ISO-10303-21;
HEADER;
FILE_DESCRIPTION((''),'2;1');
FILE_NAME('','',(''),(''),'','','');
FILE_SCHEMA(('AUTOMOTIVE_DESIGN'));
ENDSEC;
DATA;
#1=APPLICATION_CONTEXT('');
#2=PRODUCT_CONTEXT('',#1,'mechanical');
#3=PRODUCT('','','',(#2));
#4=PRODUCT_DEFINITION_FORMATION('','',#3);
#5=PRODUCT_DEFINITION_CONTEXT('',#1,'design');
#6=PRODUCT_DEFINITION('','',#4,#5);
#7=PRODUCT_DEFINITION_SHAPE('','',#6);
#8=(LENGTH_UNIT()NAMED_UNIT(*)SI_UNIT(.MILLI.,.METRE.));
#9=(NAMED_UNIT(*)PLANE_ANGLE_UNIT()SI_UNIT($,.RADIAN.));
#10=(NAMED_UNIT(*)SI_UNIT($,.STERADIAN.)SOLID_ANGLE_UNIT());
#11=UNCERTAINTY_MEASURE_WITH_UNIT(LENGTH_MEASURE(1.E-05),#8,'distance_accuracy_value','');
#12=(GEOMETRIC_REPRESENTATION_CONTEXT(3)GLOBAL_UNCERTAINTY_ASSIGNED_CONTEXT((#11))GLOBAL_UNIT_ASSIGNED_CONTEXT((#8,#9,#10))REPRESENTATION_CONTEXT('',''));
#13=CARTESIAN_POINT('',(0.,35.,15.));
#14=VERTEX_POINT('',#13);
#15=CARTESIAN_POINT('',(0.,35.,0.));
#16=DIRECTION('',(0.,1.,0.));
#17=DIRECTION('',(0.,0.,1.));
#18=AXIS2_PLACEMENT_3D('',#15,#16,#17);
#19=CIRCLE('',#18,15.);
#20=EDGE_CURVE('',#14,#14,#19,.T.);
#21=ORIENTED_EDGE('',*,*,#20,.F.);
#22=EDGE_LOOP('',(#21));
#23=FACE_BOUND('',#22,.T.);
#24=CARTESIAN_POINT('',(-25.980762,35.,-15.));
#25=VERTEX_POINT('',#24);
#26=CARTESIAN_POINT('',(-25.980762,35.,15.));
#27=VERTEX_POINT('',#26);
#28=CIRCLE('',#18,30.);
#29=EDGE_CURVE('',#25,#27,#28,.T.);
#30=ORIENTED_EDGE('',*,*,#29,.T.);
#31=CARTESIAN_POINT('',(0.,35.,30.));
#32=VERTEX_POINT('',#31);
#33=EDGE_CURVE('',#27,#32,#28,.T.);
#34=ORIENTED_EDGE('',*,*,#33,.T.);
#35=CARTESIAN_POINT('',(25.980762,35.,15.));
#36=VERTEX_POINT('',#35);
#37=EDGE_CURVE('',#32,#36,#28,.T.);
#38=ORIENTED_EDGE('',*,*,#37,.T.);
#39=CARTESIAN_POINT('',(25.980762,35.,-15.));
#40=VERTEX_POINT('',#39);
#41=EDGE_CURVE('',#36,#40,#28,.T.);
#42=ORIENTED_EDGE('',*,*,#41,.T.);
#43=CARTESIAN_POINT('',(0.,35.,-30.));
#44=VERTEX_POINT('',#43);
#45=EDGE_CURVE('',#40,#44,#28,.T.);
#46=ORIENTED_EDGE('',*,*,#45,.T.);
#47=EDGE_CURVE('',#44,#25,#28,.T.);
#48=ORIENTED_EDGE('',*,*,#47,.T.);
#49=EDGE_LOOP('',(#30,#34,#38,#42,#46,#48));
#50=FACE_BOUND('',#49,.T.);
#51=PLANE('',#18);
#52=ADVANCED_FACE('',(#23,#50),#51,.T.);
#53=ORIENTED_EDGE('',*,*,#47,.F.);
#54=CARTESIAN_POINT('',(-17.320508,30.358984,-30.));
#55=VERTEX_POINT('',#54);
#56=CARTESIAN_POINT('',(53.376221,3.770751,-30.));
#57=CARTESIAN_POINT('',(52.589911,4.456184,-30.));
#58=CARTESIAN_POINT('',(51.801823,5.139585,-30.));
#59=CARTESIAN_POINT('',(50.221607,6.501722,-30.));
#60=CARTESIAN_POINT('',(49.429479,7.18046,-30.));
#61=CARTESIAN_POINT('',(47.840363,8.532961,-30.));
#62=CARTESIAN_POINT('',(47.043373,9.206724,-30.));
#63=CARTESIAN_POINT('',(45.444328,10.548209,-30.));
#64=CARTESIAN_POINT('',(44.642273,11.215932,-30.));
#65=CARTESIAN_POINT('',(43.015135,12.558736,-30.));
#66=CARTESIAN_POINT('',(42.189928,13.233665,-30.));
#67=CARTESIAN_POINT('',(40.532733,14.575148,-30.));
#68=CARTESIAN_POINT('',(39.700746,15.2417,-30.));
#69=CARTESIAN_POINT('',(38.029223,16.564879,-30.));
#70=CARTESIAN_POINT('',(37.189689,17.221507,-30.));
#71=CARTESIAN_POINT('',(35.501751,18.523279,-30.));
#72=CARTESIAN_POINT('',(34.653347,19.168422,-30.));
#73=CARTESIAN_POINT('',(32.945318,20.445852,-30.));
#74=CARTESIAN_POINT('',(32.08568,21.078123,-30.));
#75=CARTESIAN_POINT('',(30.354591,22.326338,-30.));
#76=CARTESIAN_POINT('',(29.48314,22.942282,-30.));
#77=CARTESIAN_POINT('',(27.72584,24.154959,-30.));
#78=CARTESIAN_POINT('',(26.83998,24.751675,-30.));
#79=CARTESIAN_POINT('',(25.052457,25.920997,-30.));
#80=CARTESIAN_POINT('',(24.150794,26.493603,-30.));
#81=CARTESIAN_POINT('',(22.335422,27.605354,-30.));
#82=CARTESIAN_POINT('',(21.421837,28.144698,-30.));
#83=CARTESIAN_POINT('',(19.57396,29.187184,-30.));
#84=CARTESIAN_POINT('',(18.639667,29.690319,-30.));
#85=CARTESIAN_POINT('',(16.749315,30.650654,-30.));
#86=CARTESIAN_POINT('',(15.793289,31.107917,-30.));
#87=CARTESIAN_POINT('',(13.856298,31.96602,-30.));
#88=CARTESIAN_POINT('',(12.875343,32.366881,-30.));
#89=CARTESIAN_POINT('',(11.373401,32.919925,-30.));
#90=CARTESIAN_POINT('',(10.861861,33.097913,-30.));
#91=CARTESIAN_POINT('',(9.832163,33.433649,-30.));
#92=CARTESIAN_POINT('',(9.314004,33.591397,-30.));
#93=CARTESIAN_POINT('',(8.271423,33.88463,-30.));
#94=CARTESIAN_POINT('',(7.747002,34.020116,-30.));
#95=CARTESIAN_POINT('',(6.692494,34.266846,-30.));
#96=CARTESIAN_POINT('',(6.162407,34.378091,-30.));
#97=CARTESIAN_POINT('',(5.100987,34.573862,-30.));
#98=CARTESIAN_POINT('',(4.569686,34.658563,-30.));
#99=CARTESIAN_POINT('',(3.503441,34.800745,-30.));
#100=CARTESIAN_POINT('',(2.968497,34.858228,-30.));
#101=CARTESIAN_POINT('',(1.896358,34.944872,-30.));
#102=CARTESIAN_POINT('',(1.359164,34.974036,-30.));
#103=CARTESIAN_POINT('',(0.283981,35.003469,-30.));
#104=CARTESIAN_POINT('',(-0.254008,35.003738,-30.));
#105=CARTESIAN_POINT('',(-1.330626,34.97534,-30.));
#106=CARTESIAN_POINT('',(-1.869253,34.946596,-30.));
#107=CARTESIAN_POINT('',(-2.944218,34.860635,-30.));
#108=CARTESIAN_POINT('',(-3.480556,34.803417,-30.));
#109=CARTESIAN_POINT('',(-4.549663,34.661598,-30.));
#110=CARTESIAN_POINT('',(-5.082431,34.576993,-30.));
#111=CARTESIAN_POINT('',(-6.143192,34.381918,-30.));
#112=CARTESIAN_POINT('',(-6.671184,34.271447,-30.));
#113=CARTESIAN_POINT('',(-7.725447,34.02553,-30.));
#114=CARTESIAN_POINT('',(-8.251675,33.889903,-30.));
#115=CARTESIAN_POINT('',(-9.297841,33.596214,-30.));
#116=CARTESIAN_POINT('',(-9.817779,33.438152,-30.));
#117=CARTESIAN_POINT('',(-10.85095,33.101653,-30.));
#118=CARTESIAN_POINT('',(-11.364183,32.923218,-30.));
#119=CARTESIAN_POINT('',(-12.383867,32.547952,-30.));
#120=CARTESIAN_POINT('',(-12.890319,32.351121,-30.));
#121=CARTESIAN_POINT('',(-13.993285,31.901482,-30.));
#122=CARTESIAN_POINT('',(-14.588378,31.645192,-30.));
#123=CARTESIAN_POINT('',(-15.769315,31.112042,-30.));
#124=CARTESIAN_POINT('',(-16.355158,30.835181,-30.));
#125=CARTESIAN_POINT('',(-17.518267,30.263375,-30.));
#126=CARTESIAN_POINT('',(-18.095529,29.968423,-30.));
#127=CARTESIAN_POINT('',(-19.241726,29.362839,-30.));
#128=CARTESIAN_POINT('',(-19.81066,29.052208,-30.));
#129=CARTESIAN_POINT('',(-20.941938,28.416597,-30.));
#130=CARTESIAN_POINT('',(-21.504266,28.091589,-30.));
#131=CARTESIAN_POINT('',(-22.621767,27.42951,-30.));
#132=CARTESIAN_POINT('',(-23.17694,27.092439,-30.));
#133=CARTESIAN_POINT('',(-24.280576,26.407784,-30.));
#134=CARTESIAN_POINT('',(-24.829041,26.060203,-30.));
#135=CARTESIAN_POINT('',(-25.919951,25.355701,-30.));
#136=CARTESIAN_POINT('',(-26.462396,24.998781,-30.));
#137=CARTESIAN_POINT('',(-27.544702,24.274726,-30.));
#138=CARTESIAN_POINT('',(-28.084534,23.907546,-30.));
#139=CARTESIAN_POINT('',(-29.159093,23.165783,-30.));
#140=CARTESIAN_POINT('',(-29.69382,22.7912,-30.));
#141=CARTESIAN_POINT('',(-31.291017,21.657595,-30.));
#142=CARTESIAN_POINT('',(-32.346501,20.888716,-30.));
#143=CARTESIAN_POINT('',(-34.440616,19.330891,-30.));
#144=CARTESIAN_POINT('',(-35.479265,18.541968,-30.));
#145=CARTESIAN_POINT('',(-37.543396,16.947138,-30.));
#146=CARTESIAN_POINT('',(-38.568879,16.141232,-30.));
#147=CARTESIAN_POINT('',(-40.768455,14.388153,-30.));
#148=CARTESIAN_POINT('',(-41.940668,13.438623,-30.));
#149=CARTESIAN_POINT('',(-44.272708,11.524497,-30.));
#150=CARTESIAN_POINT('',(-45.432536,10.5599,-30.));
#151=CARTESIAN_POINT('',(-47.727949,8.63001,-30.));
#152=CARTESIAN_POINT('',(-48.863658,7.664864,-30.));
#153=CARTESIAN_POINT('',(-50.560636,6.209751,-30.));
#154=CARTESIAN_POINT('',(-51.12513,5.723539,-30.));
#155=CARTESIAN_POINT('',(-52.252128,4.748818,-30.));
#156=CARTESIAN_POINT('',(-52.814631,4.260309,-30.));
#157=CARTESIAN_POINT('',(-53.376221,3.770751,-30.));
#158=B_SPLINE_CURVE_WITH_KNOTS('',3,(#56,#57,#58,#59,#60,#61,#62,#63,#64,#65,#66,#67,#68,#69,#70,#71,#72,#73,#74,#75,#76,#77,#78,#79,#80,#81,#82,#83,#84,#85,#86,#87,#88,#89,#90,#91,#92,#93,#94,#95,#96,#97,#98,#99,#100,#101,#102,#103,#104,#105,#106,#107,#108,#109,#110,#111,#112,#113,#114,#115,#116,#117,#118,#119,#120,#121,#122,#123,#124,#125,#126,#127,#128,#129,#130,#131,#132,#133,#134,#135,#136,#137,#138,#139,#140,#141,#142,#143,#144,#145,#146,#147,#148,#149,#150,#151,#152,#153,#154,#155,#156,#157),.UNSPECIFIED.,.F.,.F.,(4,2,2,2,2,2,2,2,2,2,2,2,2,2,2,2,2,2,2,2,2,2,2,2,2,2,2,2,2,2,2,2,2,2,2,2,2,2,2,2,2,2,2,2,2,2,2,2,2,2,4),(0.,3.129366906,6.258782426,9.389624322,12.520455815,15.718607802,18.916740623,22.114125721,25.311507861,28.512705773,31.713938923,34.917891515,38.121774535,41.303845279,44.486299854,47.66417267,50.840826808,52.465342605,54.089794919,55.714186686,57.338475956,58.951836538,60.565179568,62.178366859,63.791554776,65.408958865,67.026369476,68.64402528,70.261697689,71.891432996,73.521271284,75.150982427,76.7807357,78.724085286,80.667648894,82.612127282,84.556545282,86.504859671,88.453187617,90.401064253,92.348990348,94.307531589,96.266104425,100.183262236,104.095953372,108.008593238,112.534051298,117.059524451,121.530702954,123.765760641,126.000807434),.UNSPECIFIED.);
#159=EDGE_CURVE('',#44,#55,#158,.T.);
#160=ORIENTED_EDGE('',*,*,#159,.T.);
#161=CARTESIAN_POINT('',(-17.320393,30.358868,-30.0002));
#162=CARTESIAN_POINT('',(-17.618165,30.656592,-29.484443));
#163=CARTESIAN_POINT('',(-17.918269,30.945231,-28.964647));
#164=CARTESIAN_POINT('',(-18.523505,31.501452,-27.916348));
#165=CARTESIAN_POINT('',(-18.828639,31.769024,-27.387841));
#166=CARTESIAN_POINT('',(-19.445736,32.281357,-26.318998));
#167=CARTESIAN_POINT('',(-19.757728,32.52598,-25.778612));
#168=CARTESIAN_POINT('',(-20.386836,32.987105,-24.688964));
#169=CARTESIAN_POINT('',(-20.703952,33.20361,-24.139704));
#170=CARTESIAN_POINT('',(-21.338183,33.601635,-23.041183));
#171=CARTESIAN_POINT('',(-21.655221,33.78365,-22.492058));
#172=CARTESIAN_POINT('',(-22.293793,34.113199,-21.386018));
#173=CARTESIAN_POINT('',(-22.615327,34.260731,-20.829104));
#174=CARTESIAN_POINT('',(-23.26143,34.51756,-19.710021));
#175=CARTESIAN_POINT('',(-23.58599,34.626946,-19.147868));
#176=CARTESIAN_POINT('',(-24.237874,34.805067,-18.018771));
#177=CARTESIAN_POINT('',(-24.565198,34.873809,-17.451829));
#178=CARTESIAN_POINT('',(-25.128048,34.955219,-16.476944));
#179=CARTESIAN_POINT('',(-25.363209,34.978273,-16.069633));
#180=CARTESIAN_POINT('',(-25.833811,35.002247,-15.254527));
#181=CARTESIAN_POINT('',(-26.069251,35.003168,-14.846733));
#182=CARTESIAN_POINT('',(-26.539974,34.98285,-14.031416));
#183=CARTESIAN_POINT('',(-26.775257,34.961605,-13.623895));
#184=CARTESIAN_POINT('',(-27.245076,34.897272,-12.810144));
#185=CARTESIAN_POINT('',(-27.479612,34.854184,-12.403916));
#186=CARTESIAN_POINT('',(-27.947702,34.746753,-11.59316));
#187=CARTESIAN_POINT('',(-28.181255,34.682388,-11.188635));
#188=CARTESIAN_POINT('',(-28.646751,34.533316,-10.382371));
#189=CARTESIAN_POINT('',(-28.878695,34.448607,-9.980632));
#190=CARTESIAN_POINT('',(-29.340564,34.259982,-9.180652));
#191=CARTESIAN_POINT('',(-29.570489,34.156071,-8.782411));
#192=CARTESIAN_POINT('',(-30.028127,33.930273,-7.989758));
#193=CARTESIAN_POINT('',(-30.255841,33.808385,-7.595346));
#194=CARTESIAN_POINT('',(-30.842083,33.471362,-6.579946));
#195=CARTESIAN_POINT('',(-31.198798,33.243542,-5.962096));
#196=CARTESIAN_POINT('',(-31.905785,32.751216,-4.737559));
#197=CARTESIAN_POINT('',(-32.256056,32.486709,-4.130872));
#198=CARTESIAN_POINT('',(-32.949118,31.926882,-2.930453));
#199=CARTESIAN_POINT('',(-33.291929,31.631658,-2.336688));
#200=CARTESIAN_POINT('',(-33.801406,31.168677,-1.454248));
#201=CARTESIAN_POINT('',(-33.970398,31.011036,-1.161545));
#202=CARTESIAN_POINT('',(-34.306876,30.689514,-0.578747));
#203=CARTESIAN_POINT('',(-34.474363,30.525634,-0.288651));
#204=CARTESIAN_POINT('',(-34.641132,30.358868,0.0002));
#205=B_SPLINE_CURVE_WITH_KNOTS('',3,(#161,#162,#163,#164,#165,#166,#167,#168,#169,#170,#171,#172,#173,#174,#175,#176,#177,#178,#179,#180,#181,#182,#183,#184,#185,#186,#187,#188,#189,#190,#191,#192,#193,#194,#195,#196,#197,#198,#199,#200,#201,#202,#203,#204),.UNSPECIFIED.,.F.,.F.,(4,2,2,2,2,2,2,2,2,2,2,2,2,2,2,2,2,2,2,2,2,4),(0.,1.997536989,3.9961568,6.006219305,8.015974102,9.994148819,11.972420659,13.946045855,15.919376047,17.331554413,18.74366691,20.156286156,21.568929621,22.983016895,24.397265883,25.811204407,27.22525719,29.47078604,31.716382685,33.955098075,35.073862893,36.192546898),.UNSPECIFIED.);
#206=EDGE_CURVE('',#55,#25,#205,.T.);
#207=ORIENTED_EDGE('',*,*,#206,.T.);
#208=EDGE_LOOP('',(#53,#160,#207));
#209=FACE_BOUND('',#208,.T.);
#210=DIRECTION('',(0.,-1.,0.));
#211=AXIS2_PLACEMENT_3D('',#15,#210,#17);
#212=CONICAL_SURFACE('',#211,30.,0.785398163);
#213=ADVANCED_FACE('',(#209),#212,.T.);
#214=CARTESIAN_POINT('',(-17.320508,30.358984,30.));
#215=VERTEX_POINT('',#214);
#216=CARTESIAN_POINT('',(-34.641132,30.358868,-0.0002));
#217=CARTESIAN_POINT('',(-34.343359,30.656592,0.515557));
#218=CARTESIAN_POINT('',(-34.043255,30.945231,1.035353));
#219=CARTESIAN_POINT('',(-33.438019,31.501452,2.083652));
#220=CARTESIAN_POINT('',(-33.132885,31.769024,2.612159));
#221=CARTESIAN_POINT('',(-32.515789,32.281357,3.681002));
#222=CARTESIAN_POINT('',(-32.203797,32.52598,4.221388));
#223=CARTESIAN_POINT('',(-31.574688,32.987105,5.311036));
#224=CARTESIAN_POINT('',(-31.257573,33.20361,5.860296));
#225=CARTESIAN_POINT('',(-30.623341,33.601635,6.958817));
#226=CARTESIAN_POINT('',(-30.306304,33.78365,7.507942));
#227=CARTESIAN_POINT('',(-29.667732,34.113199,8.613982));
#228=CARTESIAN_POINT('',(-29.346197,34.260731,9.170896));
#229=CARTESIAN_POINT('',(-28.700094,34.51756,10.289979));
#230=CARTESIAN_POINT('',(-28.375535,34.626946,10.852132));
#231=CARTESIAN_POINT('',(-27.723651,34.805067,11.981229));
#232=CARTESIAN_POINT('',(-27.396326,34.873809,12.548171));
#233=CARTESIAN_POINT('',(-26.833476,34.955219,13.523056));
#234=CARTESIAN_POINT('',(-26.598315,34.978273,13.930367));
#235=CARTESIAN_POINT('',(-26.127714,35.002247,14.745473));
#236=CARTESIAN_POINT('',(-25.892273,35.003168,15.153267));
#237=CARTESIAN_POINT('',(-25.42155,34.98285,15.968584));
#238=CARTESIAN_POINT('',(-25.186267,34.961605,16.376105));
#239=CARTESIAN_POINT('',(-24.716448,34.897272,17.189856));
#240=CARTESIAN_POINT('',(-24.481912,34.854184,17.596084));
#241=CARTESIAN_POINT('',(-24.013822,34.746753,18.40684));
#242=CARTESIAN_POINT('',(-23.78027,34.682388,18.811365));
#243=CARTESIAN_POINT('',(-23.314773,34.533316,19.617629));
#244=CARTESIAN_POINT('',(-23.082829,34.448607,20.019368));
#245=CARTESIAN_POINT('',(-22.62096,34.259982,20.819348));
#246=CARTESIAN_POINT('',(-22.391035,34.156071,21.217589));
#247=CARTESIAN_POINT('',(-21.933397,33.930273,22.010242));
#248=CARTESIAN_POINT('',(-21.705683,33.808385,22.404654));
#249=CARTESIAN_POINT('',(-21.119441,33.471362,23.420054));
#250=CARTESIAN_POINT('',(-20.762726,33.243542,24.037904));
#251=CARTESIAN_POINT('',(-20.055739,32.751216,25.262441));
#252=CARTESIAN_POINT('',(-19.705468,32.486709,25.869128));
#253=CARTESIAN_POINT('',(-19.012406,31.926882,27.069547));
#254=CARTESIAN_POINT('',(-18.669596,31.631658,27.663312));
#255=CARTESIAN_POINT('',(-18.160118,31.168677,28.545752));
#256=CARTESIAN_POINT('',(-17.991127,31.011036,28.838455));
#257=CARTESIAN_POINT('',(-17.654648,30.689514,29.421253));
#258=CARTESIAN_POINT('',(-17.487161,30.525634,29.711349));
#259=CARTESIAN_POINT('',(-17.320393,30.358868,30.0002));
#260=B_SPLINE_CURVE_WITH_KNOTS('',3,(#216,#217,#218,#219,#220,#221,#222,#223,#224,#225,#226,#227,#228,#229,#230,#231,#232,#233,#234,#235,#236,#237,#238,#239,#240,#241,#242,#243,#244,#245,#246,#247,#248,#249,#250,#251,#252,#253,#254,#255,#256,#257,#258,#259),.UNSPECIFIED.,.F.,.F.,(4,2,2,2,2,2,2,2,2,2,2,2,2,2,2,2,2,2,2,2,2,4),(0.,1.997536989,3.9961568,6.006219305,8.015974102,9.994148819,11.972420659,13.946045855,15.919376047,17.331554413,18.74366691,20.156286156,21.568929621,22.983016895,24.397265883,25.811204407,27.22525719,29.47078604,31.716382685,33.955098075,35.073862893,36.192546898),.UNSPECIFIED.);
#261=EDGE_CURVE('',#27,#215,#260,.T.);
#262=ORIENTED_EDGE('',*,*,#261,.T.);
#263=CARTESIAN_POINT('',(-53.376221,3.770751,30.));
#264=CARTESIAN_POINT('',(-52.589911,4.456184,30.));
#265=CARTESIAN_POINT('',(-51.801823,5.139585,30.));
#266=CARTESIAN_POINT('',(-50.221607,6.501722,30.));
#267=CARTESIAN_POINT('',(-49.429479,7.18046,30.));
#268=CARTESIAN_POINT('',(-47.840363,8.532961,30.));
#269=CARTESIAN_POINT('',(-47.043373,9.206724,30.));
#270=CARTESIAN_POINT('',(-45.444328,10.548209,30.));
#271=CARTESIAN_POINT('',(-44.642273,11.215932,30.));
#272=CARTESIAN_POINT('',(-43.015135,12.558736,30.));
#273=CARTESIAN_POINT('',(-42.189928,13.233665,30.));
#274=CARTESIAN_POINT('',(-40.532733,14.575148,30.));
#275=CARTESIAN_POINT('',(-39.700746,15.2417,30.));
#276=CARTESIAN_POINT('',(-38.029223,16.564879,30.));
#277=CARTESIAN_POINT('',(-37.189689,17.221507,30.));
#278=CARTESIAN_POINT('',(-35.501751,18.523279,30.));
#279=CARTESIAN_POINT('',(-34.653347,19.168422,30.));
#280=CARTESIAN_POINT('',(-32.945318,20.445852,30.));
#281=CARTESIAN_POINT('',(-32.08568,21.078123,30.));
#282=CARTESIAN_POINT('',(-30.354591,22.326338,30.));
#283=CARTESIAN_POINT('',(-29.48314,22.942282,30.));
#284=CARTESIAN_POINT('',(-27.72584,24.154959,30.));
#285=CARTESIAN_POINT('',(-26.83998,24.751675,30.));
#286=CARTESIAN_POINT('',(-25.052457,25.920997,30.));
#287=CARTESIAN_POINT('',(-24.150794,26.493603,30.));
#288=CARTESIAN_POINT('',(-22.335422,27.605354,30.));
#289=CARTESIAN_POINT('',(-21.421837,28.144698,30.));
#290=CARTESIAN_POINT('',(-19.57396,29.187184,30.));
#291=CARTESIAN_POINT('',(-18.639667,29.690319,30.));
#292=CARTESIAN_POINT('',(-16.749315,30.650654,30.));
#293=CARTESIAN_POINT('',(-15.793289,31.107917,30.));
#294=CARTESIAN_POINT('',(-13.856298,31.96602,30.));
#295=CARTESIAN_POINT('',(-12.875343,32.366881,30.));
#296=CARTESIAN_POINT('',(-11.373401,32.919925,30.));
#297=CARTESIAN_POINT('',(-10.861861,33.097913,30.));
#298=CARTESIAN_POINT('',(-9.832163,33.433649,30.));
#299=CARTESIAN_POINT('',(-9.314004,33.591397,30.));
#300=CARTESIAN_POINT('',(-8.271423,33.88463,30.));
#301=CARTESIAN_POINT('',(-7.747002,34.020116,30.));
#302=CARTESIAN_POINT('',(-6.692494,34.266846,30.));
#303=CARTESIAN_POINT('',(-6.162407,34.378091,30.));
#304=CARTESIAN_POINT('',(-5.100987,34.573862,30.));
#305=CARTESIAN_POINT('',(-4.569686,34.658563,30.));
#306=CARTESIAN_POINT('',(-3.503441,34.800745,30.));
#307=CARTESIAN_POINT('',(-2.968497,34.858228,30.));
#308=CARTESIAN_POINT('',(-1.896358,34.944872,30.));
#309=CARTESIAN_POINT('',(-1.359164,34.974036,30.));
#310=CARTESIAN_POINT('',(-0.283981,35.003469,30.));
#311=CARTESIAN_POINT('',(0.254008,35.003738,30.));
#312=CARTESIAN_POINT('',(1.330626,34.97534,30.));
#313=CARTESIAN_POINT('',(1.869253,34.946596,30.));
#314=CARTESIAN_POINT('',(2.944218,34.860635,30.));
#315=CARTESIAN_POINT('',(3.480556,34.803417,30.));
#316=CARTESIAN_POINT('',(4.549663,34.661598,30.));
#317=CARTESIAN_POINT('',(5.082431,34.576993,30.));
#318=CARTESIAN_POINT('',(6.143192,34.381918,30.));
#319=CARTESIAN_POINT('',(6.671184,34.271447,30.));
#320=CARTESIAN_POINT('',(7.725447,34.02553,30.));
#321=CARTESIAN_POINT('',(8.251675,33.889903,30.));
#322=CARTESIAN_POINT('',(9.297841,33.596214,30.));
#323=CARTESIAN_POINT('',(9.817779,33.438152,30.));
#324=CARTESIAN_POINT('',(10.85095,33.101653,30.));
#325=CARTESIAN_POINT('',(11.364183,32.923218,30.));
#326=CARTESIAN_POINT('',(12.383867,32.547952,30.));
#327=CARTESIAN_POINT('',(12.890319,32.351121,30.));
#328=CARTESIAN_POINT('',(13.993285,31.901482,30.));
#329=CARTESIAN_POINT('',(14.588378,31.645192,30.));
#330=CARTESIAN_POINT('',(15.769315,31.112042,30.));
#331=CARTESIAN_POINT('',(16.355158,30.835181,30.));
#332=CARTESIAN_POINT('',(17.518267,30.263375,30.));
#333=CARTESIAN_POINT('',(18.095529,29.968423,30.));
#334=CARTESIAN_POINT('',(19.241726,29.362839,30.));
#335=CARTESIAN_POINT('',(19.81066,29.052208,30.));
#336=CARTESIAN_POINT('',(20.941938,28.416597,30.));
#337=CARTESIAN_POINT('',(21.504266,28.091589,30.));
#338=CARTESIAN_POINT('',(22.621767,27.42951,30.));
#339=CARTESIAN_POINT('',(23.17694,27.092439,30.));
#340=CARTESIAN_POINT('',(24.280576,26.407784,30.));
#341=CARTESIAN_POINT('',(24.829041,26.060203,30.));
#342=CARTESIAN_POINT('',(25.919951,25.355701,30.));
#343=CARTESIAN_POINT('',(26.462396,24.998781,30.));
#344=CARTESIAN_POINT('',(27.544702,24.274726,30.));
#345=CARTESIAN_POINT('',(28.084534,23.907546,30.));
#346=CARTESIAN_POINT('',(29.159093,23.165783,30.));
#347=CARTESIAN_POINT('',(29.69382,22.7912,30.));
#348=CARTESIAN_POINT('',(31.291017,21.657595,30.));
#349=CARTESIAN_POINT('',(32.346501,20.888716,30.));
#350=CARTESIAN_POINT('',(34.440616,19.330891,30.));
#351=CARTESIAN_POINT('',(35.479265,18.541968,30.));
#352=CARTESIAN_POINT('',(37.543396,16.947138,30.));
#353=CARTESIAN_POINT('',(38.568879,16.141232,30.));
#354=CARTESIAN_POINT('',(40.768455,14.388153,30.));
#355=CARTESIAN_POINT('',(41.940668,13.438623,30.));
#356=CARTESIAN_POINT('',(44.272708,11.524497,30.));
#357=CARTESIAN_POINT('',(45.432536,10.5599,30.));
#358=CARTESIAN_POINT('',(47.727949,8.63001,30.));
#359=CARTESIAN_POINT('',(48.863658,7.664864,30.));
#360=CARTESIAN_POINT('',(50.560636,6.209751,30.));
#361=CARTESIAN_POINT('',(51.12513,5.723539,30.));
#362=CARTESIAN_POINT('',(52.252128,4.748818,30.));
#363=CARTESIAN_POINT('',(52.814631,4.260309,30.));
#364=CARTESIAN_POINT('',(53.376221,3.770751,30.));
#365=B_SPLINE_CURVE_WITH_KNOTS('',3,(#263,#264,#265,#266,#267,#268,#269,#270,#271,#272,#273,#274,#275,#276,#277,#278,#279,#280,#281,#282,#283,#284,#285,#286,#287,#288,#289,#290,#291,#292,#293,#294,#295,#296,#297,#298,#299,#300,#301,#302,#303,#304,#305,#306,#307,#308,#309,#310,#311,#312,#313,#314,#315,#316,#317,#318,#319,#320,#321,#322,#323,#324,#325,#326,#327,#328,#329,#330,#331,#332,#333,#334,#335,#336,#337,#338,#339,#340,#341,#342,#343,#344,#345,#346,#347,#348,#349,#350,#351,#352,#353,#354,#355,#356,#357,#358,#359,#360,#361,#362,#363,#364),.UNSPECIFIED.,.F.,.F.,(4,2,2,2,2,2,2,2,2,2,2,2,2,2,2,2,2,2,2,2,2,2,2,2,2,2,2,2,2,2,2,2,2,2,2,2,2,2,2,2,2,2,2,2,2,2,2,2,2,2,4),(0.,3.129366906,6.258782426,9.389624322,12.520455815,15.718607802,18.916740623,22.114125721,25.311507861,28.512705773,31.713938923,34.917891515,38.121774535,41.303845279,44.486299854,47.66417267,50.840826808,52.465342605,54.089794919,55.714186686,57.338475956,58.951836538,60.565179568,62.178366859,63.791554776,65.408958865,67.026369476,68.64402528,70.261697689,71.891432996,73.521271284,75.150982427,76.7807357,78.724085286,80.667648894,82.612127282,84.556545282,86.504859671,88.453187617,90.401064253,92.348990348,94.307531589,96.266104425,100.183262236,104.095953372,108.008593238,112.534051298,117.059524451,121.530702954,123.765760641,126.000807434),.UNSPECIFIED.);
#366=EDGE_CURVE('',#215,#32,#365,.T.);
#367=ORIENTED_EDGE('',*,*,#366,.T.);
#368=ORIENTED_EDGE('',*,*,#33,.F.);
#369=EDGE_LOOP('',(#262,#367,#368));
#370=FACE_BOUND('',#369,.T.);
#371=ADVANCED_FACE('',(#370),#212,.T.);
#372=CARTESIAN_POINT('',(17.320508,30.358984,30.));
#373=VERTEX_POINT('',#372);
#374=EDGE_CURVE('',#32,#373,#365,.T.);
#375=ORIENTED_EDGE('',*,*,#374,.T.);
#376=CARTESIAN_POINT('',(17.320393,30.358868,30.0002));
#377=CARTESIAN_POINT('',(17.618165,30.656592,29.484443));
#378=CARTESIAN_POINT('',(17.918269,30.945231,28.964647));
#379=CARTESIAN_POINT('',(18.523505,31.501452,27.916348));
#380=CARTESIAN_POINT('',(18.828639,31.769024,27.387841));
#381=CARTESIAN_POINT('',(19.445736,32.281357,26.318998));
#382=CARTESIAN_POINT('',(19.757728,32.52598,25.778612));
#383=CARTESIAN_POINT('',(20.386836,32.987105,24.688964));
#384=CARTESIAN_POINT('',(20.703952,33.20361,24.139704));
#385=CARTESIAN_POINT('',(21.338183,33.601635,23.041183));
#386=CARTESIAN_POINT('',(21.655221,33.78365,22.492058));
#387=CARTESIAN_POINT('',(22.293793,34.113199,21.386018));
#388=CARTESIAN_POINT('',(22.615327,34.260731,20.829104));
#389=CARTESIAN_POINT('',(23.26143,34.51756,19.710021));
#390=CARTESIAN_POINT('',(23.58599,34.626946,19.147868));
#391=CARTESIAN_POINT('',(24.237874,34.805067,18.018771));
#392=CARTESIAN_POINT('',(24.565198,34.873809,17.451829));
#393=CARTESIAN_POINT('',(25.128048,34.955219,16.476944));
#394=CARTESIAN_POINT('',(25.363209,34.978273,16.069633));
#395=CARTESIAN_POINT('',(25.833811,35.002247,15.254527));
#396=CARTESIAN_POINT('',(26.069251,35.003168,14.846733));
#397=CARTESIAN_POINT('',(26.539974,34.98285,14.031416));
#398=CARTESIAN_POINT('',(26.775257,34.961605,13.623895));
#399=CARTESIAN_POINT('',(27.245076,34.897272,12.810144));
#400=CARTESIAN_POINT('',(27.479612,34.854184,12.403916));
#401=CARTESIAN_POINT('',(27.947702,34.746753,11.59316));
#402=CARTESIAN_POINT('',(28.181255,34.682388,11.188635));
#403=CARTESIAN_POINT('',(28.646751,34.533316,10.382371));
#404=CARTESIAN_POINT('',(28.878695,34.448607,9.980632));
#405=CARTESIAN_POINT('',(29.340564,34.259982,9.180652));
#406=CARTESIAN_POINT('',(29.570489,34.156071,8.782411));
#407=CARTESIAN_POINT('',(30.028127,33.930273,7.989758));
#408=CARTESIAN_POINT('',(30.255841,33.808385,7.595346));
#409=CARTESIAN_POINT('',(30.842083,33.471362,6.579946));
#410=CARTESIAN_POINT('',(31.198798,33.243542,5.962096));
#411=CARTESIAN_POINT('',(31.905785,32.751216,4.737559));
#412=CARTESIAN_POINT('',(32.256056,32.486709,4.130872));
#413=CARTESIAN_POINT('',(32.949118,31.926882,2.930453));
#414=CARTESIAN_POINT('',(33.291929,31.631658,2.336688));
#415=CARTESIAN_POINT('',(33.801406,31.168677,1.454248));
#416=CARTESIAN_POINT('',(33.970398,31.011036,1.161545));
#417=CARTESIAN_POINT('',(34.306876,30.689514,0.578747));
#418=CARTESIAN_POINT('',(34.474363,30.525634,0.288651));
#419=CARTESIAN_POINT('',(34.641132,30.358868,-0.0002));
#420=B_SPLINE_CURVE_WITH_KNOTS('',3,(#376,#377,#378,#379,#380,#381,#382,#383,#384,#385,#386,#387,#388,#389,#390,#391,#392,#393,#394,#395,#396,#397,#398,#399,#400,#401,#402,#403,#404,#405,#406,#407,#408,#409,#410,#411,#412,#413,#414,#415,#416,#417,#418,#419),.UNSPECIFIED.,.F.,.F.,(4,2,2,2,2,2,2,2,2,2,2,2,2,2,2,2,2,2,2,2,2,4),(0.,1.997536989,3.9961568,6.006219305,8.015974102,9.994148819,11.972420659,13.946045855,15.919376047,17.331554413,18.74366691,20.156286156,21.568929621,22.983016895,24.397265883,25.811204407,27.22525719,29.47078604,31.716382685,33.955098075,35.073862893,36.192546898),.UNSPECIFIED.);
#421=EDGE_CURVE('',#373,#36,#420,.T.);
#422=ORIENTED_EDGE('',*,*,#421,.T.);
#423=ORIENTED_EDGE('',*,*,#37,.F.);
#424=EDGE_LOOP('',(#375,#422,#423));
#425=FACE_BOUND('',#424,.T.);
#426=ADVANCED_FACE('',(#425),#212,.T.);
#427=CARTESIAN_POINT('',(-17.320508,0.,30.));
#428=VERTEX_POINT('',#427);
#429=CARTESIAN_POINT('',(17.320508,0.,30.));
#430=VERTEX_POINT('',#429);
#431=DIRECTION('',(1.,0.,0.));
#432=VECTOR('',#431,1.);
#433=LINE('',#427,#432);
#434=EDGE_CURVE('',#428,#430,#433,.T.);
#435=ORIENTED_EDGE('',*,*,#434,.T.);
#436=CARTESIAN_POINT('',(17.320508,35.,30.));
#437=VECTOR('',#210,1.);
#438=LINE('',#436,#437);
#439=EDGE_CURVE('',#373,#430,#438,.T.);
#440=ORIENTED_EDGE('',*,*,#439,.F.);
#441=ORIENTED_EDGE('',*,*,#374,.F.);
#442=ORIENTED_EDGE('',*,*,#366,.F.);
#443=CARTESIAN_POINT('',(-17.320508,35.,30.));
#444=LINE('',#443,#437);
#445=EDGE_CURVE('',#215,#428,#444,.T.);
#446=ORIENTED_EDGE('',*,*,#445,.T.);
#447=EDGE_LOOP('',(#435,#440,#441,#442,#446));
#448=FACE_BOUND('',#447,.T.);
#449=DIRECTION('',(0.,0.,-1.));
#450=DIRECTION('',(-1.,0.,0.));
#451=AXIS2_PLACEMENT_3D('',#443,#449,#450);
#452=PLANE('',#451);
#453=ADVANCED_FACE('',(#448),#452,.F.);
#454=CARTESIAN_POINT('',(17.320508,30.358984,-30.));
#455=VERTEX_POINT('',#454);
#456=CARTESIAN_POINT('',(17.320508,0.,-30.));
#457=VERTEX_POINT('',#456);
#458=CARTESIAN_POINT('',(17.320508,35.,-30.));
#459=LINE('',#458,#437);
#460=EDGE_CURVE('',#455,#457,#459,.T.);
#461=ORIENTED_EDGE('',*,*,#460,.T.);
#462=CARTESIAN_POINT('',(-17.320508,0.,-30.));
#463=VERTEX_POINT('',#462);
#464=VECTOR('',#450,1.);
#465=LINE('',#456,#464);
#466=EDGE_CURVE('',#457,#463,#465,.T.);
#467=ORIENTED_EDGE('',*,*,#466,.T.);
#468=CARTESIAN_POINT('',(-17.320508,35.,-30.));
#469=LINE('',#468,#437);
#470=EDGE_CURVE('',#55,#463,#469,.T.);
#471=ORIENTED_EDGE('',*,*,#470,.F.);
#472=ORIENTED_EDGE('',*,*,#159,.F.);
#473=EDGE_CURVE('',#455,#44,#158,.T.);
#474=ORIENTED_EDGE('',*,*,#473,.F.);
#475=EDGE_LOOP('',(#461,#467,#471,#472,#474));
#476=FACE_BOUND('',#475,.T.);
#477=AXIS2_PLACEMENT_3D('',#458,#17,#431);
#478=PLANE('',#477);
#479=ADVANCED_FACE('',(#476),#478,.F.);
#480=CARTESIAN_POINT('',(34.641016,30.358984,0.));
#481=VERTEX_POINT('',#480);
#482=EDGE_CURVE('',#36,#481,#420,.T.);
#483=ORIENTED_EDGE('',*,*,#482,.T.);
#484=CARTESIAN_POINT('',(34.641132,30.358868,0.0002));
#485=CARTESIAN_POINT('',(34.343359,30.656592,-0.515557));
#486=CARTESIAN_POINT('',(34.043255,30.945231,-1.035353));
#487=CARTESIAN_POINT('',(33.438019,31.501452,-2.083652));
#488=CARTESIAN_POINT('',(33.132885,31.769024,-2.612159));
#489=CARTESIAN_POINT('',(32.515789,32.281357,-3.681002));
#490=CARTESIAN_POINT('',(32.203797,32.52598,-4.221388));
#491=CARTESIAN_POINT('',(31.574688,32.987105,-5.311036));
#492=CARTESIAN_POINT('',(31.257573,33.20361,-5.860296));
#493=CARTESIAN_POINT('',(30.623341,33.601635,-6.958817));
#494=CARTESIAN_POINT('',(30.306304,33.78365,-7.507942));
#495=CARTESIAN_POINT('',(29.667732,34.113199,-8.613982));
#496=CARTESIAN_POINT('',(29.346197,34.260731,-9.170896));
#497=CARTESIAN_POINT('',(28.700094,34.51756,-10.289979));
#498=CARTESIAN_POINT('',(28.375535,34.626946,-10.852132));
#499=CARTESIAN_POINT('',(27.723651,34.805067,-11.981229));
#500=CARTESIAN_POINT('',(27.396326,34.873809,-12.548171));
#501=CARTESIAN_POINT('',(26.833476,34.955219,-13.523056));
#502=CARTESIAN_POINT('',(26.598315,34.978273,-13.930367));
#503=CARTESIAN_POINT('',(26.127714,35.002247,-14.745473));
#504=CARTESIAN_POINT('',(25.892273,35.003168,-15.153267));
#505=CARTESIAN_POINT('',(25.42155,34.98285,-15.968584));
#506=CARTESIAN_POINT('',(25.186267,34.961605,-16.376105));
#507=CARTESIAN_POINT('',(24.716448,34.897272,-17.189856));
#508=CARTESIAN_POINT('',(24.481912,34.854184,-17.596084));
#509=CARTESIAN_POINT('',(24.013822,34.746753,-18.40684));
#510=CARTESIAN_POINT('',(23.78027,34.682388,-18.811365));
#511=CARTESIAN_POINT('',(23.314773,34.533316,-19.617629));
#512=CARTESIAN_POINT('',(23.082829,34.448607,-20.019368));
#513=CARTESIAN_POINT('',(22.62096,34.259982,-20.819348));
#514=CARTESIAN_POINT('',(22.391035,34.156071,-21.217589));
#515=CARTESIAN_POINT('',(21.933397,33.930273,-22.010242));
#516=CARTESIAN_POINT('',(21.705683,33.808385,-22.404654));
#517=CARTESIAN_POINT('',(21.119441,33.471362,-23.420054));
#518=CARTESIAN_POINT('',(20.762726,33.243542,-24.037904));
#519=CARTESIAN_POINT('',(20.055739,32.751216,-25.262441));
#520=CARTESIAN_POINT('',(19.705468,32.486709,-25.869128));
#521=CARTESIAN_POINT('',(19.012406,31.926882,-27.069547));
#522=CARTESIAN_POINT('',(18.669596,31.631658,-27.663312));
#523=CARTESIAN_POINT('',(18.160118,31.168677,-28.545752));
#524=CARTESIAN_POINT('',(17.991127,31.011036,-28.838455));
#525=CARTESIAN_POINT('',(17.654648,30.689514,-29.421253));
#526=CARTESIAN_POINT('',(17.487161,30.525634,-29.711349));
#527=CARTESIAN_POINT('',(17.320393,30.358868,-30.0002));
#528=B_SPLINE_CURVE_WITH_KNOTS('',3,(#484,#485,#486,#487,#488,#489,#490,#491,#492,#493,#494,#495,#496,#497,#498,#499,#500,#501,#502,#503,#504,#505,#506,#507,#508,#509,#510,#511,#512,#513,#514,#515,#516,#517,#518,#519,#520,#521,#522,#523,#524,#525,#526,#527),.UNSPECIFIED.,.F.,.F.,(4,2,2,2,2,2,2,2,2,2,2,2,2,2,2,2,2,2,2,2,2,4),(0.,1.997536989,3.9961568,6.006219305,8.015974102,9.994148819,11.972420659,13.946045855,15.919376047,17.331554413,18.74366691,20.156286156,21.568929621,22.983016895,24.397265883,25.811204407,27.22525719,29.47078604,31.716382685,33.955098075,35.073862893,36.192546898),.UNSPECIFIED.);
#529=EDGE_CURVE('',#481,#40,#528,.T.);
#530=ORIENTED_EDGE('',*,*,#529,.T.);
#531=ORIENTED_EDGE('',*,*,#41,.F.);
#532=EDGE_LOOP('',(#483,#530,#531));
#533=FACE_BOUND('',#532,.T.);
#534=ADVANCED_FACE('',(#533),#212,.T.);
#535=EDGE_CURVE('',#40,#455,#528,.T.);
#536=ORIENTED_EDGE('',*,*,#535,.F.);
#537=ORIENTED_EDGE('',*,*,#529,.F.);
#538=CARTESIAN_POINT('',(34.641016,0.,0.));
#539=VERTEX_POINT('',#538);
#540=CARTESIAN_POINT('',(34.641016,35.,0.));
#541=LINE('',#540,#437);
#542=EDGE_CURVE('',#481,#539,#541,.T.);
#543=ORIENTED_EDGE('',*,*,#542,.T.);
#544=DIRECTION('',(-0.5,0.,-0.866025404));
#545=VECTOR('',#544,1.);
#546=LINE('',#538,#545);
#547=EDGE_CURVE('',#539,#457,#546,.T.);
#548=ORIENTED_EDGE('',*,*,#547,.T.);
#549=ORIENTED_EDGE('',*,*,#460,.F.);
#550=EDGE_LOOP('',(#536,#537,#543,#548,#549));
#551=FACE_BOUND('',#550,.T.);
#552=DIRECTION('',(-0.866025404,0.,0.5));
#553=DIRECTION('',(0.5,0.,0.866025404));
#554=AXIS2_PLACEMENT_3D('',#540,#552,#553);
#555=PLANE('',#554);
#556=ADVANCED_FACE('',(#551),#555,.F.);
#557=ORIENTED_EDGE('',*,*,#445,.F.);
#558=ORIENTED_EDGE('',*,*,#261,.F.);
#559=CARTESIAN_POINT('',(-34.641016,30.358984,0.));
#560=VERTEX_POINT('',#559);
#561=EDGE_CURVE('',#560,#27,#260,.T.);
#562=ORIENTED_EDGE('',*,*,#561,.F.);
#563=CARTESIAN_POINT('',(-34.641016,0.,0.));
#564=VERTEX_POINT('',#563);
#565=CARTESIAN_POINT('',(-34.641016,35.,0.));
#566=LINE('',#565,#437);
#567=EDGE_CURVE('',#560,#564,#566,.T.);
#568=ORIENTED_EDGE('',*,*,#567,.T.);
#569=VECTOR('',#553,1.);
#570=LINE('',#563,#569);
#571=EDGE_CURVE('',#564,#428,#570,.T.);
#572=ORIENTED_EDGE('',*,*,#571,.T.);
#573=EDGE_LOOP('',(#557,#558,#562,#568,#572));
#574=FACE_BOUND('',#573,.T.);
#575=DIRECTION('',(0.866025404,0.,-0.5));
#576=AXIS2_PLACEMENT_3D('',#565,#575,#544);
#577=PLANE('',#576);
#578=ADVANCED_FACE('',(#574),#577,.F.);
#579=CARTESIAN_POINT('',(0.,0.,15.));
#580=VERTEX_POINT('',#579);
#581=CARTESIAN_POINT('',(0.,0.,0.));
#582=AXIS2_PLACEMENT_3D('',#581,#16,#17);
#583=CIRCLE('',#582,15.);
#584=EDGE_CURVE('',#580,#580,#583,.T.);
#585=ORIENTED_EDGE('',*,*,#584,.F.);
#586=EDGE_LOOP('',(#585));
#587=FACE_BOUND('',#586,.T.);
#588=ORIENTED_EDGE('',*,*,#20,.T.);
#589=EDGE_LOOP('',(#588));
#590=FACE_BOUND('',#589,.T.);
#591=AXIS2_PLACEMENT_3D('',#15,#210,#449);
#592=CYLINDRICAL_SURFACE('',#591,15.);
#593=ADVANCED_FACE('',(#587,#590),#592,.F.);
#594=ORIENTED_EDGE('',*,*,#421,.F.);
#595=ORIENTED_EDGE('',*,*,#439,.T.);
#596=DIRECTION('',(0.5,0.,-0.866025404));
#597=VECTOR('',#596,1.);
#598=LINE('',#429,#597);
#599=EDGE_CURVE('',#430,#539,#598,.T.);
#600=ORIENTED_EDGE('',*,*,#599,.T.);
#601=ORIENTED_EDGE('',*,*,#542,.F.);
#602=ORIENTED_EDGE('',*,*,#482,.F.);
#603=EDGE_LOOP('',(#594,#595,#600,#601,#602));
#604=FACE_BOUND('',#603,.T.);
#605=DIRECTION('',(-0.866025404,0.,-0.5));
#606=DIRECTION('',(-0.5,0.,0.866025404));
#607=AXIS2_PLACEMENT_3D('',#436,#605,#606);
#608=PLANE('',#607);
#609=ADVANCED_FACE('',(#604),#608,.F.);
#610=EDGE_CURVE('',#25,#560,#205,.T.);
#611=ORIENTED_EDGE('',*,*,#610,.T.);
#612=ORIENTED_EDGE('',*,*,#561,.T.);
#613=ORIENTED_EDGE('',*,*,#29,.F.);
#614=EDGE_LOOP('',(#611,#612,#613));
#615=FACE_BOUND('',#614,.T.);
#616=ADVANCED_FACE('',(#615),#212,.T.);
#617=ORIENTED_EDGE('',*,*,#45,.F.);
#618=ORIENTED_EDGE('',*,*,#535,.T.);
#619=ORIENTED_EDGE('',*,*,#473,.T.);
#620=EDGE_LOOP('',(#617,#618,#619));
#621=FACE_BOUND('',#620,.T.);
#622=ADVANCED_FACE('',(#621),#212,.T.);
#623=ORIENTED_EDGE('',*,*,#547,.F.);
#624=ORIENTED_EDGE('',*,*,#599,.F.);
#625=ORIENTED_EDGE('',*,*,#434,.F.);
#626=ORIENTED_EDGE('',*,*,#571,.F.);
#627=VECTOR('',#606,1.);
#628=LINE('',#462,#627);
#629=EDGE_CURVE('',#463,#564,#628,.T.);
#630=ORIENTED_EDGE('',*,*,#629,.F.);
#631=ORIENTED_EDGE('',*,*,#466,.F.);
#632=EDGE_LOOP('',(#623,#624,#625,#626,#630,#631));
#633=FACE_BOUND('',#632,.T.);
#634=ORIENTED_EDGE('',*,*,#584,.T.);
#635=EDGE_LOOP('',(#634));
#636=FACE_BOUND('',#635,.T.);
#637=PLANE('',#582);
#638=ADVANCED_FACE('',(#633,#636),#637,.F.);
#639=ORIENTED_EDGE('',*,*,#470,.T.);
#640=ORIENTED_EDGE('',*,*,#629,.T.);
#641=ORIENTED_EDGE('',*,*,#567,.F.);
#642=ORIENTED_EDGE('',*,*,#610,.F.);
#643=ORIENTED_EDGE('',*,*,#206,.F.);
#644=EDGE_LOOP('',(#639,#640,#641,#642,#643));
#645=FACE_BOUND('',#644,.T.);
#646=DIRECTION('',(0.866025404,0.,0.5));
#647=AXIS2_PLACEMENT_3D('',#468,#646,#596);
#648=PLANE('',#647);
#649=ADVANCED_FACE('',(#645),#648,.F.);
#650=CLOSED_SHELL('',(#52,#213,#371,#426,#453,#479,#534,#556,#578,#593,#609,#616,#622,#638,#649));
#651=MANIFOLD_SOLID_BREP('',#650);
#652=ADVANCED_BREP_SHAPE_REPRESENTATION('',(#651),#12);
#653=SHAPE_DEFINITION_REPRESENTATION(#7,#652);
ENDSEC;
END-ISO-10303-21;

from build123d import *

# Parameters (mm, degrees)
SKETCH1_R           = 15
BOSS_EXTRUDE1_DEPTH = 35
SKETCH2_OUTSIDE_W   = 110.904
SKETCH2_OUTSIDE_H   = 101.622
SKETCH2_OUTSIDE_R   = 30
CUT_EXTRUDE1_DEPTH  = 10
CUT_EXTRUDE1_TAPER  = 45


with BuildPart() as part:
    # Sketch1 → Boss-Extrude1 (new body)
    with BuildSketch(Plane(origin=(0, 0, 0), x_dir=(1, 0, 0), z_dir=(0, 1, 0))):
        Polygon((34.641016151, 0), (17.320508076, 30), (-17.320508076, 30), (-34.641016151, 0), (-17.320508076, -30), (17.320508076, -30), align=None)
        Circle(SKETCH1_R, mode=Mode.SUBTRACT)
    extrude(amount=BOSS_EXTRUDE1_DEPTH)

    # Sketch2 outside → Cut-Extrude1 (cut)
    with BuildSketch(Plane(origin=(0, 35, 0), x_dir=(1, 0, 0), z_dir=(0, 1, 0))):
        Rectangle(SKETCH2_OUTSIDE_W, SKETCH2_OUTSIDE_H)
        Circle(SKETCH2_OUTSIDE_R, mode=Mode.SUBTRACT)
    extrude(amount=-CUT_EXTRUDE1_DEPTH, taper=CUT_EXTRUDE1_TAPER, mode=Mode.SUBTRACT)


solid = part.part
